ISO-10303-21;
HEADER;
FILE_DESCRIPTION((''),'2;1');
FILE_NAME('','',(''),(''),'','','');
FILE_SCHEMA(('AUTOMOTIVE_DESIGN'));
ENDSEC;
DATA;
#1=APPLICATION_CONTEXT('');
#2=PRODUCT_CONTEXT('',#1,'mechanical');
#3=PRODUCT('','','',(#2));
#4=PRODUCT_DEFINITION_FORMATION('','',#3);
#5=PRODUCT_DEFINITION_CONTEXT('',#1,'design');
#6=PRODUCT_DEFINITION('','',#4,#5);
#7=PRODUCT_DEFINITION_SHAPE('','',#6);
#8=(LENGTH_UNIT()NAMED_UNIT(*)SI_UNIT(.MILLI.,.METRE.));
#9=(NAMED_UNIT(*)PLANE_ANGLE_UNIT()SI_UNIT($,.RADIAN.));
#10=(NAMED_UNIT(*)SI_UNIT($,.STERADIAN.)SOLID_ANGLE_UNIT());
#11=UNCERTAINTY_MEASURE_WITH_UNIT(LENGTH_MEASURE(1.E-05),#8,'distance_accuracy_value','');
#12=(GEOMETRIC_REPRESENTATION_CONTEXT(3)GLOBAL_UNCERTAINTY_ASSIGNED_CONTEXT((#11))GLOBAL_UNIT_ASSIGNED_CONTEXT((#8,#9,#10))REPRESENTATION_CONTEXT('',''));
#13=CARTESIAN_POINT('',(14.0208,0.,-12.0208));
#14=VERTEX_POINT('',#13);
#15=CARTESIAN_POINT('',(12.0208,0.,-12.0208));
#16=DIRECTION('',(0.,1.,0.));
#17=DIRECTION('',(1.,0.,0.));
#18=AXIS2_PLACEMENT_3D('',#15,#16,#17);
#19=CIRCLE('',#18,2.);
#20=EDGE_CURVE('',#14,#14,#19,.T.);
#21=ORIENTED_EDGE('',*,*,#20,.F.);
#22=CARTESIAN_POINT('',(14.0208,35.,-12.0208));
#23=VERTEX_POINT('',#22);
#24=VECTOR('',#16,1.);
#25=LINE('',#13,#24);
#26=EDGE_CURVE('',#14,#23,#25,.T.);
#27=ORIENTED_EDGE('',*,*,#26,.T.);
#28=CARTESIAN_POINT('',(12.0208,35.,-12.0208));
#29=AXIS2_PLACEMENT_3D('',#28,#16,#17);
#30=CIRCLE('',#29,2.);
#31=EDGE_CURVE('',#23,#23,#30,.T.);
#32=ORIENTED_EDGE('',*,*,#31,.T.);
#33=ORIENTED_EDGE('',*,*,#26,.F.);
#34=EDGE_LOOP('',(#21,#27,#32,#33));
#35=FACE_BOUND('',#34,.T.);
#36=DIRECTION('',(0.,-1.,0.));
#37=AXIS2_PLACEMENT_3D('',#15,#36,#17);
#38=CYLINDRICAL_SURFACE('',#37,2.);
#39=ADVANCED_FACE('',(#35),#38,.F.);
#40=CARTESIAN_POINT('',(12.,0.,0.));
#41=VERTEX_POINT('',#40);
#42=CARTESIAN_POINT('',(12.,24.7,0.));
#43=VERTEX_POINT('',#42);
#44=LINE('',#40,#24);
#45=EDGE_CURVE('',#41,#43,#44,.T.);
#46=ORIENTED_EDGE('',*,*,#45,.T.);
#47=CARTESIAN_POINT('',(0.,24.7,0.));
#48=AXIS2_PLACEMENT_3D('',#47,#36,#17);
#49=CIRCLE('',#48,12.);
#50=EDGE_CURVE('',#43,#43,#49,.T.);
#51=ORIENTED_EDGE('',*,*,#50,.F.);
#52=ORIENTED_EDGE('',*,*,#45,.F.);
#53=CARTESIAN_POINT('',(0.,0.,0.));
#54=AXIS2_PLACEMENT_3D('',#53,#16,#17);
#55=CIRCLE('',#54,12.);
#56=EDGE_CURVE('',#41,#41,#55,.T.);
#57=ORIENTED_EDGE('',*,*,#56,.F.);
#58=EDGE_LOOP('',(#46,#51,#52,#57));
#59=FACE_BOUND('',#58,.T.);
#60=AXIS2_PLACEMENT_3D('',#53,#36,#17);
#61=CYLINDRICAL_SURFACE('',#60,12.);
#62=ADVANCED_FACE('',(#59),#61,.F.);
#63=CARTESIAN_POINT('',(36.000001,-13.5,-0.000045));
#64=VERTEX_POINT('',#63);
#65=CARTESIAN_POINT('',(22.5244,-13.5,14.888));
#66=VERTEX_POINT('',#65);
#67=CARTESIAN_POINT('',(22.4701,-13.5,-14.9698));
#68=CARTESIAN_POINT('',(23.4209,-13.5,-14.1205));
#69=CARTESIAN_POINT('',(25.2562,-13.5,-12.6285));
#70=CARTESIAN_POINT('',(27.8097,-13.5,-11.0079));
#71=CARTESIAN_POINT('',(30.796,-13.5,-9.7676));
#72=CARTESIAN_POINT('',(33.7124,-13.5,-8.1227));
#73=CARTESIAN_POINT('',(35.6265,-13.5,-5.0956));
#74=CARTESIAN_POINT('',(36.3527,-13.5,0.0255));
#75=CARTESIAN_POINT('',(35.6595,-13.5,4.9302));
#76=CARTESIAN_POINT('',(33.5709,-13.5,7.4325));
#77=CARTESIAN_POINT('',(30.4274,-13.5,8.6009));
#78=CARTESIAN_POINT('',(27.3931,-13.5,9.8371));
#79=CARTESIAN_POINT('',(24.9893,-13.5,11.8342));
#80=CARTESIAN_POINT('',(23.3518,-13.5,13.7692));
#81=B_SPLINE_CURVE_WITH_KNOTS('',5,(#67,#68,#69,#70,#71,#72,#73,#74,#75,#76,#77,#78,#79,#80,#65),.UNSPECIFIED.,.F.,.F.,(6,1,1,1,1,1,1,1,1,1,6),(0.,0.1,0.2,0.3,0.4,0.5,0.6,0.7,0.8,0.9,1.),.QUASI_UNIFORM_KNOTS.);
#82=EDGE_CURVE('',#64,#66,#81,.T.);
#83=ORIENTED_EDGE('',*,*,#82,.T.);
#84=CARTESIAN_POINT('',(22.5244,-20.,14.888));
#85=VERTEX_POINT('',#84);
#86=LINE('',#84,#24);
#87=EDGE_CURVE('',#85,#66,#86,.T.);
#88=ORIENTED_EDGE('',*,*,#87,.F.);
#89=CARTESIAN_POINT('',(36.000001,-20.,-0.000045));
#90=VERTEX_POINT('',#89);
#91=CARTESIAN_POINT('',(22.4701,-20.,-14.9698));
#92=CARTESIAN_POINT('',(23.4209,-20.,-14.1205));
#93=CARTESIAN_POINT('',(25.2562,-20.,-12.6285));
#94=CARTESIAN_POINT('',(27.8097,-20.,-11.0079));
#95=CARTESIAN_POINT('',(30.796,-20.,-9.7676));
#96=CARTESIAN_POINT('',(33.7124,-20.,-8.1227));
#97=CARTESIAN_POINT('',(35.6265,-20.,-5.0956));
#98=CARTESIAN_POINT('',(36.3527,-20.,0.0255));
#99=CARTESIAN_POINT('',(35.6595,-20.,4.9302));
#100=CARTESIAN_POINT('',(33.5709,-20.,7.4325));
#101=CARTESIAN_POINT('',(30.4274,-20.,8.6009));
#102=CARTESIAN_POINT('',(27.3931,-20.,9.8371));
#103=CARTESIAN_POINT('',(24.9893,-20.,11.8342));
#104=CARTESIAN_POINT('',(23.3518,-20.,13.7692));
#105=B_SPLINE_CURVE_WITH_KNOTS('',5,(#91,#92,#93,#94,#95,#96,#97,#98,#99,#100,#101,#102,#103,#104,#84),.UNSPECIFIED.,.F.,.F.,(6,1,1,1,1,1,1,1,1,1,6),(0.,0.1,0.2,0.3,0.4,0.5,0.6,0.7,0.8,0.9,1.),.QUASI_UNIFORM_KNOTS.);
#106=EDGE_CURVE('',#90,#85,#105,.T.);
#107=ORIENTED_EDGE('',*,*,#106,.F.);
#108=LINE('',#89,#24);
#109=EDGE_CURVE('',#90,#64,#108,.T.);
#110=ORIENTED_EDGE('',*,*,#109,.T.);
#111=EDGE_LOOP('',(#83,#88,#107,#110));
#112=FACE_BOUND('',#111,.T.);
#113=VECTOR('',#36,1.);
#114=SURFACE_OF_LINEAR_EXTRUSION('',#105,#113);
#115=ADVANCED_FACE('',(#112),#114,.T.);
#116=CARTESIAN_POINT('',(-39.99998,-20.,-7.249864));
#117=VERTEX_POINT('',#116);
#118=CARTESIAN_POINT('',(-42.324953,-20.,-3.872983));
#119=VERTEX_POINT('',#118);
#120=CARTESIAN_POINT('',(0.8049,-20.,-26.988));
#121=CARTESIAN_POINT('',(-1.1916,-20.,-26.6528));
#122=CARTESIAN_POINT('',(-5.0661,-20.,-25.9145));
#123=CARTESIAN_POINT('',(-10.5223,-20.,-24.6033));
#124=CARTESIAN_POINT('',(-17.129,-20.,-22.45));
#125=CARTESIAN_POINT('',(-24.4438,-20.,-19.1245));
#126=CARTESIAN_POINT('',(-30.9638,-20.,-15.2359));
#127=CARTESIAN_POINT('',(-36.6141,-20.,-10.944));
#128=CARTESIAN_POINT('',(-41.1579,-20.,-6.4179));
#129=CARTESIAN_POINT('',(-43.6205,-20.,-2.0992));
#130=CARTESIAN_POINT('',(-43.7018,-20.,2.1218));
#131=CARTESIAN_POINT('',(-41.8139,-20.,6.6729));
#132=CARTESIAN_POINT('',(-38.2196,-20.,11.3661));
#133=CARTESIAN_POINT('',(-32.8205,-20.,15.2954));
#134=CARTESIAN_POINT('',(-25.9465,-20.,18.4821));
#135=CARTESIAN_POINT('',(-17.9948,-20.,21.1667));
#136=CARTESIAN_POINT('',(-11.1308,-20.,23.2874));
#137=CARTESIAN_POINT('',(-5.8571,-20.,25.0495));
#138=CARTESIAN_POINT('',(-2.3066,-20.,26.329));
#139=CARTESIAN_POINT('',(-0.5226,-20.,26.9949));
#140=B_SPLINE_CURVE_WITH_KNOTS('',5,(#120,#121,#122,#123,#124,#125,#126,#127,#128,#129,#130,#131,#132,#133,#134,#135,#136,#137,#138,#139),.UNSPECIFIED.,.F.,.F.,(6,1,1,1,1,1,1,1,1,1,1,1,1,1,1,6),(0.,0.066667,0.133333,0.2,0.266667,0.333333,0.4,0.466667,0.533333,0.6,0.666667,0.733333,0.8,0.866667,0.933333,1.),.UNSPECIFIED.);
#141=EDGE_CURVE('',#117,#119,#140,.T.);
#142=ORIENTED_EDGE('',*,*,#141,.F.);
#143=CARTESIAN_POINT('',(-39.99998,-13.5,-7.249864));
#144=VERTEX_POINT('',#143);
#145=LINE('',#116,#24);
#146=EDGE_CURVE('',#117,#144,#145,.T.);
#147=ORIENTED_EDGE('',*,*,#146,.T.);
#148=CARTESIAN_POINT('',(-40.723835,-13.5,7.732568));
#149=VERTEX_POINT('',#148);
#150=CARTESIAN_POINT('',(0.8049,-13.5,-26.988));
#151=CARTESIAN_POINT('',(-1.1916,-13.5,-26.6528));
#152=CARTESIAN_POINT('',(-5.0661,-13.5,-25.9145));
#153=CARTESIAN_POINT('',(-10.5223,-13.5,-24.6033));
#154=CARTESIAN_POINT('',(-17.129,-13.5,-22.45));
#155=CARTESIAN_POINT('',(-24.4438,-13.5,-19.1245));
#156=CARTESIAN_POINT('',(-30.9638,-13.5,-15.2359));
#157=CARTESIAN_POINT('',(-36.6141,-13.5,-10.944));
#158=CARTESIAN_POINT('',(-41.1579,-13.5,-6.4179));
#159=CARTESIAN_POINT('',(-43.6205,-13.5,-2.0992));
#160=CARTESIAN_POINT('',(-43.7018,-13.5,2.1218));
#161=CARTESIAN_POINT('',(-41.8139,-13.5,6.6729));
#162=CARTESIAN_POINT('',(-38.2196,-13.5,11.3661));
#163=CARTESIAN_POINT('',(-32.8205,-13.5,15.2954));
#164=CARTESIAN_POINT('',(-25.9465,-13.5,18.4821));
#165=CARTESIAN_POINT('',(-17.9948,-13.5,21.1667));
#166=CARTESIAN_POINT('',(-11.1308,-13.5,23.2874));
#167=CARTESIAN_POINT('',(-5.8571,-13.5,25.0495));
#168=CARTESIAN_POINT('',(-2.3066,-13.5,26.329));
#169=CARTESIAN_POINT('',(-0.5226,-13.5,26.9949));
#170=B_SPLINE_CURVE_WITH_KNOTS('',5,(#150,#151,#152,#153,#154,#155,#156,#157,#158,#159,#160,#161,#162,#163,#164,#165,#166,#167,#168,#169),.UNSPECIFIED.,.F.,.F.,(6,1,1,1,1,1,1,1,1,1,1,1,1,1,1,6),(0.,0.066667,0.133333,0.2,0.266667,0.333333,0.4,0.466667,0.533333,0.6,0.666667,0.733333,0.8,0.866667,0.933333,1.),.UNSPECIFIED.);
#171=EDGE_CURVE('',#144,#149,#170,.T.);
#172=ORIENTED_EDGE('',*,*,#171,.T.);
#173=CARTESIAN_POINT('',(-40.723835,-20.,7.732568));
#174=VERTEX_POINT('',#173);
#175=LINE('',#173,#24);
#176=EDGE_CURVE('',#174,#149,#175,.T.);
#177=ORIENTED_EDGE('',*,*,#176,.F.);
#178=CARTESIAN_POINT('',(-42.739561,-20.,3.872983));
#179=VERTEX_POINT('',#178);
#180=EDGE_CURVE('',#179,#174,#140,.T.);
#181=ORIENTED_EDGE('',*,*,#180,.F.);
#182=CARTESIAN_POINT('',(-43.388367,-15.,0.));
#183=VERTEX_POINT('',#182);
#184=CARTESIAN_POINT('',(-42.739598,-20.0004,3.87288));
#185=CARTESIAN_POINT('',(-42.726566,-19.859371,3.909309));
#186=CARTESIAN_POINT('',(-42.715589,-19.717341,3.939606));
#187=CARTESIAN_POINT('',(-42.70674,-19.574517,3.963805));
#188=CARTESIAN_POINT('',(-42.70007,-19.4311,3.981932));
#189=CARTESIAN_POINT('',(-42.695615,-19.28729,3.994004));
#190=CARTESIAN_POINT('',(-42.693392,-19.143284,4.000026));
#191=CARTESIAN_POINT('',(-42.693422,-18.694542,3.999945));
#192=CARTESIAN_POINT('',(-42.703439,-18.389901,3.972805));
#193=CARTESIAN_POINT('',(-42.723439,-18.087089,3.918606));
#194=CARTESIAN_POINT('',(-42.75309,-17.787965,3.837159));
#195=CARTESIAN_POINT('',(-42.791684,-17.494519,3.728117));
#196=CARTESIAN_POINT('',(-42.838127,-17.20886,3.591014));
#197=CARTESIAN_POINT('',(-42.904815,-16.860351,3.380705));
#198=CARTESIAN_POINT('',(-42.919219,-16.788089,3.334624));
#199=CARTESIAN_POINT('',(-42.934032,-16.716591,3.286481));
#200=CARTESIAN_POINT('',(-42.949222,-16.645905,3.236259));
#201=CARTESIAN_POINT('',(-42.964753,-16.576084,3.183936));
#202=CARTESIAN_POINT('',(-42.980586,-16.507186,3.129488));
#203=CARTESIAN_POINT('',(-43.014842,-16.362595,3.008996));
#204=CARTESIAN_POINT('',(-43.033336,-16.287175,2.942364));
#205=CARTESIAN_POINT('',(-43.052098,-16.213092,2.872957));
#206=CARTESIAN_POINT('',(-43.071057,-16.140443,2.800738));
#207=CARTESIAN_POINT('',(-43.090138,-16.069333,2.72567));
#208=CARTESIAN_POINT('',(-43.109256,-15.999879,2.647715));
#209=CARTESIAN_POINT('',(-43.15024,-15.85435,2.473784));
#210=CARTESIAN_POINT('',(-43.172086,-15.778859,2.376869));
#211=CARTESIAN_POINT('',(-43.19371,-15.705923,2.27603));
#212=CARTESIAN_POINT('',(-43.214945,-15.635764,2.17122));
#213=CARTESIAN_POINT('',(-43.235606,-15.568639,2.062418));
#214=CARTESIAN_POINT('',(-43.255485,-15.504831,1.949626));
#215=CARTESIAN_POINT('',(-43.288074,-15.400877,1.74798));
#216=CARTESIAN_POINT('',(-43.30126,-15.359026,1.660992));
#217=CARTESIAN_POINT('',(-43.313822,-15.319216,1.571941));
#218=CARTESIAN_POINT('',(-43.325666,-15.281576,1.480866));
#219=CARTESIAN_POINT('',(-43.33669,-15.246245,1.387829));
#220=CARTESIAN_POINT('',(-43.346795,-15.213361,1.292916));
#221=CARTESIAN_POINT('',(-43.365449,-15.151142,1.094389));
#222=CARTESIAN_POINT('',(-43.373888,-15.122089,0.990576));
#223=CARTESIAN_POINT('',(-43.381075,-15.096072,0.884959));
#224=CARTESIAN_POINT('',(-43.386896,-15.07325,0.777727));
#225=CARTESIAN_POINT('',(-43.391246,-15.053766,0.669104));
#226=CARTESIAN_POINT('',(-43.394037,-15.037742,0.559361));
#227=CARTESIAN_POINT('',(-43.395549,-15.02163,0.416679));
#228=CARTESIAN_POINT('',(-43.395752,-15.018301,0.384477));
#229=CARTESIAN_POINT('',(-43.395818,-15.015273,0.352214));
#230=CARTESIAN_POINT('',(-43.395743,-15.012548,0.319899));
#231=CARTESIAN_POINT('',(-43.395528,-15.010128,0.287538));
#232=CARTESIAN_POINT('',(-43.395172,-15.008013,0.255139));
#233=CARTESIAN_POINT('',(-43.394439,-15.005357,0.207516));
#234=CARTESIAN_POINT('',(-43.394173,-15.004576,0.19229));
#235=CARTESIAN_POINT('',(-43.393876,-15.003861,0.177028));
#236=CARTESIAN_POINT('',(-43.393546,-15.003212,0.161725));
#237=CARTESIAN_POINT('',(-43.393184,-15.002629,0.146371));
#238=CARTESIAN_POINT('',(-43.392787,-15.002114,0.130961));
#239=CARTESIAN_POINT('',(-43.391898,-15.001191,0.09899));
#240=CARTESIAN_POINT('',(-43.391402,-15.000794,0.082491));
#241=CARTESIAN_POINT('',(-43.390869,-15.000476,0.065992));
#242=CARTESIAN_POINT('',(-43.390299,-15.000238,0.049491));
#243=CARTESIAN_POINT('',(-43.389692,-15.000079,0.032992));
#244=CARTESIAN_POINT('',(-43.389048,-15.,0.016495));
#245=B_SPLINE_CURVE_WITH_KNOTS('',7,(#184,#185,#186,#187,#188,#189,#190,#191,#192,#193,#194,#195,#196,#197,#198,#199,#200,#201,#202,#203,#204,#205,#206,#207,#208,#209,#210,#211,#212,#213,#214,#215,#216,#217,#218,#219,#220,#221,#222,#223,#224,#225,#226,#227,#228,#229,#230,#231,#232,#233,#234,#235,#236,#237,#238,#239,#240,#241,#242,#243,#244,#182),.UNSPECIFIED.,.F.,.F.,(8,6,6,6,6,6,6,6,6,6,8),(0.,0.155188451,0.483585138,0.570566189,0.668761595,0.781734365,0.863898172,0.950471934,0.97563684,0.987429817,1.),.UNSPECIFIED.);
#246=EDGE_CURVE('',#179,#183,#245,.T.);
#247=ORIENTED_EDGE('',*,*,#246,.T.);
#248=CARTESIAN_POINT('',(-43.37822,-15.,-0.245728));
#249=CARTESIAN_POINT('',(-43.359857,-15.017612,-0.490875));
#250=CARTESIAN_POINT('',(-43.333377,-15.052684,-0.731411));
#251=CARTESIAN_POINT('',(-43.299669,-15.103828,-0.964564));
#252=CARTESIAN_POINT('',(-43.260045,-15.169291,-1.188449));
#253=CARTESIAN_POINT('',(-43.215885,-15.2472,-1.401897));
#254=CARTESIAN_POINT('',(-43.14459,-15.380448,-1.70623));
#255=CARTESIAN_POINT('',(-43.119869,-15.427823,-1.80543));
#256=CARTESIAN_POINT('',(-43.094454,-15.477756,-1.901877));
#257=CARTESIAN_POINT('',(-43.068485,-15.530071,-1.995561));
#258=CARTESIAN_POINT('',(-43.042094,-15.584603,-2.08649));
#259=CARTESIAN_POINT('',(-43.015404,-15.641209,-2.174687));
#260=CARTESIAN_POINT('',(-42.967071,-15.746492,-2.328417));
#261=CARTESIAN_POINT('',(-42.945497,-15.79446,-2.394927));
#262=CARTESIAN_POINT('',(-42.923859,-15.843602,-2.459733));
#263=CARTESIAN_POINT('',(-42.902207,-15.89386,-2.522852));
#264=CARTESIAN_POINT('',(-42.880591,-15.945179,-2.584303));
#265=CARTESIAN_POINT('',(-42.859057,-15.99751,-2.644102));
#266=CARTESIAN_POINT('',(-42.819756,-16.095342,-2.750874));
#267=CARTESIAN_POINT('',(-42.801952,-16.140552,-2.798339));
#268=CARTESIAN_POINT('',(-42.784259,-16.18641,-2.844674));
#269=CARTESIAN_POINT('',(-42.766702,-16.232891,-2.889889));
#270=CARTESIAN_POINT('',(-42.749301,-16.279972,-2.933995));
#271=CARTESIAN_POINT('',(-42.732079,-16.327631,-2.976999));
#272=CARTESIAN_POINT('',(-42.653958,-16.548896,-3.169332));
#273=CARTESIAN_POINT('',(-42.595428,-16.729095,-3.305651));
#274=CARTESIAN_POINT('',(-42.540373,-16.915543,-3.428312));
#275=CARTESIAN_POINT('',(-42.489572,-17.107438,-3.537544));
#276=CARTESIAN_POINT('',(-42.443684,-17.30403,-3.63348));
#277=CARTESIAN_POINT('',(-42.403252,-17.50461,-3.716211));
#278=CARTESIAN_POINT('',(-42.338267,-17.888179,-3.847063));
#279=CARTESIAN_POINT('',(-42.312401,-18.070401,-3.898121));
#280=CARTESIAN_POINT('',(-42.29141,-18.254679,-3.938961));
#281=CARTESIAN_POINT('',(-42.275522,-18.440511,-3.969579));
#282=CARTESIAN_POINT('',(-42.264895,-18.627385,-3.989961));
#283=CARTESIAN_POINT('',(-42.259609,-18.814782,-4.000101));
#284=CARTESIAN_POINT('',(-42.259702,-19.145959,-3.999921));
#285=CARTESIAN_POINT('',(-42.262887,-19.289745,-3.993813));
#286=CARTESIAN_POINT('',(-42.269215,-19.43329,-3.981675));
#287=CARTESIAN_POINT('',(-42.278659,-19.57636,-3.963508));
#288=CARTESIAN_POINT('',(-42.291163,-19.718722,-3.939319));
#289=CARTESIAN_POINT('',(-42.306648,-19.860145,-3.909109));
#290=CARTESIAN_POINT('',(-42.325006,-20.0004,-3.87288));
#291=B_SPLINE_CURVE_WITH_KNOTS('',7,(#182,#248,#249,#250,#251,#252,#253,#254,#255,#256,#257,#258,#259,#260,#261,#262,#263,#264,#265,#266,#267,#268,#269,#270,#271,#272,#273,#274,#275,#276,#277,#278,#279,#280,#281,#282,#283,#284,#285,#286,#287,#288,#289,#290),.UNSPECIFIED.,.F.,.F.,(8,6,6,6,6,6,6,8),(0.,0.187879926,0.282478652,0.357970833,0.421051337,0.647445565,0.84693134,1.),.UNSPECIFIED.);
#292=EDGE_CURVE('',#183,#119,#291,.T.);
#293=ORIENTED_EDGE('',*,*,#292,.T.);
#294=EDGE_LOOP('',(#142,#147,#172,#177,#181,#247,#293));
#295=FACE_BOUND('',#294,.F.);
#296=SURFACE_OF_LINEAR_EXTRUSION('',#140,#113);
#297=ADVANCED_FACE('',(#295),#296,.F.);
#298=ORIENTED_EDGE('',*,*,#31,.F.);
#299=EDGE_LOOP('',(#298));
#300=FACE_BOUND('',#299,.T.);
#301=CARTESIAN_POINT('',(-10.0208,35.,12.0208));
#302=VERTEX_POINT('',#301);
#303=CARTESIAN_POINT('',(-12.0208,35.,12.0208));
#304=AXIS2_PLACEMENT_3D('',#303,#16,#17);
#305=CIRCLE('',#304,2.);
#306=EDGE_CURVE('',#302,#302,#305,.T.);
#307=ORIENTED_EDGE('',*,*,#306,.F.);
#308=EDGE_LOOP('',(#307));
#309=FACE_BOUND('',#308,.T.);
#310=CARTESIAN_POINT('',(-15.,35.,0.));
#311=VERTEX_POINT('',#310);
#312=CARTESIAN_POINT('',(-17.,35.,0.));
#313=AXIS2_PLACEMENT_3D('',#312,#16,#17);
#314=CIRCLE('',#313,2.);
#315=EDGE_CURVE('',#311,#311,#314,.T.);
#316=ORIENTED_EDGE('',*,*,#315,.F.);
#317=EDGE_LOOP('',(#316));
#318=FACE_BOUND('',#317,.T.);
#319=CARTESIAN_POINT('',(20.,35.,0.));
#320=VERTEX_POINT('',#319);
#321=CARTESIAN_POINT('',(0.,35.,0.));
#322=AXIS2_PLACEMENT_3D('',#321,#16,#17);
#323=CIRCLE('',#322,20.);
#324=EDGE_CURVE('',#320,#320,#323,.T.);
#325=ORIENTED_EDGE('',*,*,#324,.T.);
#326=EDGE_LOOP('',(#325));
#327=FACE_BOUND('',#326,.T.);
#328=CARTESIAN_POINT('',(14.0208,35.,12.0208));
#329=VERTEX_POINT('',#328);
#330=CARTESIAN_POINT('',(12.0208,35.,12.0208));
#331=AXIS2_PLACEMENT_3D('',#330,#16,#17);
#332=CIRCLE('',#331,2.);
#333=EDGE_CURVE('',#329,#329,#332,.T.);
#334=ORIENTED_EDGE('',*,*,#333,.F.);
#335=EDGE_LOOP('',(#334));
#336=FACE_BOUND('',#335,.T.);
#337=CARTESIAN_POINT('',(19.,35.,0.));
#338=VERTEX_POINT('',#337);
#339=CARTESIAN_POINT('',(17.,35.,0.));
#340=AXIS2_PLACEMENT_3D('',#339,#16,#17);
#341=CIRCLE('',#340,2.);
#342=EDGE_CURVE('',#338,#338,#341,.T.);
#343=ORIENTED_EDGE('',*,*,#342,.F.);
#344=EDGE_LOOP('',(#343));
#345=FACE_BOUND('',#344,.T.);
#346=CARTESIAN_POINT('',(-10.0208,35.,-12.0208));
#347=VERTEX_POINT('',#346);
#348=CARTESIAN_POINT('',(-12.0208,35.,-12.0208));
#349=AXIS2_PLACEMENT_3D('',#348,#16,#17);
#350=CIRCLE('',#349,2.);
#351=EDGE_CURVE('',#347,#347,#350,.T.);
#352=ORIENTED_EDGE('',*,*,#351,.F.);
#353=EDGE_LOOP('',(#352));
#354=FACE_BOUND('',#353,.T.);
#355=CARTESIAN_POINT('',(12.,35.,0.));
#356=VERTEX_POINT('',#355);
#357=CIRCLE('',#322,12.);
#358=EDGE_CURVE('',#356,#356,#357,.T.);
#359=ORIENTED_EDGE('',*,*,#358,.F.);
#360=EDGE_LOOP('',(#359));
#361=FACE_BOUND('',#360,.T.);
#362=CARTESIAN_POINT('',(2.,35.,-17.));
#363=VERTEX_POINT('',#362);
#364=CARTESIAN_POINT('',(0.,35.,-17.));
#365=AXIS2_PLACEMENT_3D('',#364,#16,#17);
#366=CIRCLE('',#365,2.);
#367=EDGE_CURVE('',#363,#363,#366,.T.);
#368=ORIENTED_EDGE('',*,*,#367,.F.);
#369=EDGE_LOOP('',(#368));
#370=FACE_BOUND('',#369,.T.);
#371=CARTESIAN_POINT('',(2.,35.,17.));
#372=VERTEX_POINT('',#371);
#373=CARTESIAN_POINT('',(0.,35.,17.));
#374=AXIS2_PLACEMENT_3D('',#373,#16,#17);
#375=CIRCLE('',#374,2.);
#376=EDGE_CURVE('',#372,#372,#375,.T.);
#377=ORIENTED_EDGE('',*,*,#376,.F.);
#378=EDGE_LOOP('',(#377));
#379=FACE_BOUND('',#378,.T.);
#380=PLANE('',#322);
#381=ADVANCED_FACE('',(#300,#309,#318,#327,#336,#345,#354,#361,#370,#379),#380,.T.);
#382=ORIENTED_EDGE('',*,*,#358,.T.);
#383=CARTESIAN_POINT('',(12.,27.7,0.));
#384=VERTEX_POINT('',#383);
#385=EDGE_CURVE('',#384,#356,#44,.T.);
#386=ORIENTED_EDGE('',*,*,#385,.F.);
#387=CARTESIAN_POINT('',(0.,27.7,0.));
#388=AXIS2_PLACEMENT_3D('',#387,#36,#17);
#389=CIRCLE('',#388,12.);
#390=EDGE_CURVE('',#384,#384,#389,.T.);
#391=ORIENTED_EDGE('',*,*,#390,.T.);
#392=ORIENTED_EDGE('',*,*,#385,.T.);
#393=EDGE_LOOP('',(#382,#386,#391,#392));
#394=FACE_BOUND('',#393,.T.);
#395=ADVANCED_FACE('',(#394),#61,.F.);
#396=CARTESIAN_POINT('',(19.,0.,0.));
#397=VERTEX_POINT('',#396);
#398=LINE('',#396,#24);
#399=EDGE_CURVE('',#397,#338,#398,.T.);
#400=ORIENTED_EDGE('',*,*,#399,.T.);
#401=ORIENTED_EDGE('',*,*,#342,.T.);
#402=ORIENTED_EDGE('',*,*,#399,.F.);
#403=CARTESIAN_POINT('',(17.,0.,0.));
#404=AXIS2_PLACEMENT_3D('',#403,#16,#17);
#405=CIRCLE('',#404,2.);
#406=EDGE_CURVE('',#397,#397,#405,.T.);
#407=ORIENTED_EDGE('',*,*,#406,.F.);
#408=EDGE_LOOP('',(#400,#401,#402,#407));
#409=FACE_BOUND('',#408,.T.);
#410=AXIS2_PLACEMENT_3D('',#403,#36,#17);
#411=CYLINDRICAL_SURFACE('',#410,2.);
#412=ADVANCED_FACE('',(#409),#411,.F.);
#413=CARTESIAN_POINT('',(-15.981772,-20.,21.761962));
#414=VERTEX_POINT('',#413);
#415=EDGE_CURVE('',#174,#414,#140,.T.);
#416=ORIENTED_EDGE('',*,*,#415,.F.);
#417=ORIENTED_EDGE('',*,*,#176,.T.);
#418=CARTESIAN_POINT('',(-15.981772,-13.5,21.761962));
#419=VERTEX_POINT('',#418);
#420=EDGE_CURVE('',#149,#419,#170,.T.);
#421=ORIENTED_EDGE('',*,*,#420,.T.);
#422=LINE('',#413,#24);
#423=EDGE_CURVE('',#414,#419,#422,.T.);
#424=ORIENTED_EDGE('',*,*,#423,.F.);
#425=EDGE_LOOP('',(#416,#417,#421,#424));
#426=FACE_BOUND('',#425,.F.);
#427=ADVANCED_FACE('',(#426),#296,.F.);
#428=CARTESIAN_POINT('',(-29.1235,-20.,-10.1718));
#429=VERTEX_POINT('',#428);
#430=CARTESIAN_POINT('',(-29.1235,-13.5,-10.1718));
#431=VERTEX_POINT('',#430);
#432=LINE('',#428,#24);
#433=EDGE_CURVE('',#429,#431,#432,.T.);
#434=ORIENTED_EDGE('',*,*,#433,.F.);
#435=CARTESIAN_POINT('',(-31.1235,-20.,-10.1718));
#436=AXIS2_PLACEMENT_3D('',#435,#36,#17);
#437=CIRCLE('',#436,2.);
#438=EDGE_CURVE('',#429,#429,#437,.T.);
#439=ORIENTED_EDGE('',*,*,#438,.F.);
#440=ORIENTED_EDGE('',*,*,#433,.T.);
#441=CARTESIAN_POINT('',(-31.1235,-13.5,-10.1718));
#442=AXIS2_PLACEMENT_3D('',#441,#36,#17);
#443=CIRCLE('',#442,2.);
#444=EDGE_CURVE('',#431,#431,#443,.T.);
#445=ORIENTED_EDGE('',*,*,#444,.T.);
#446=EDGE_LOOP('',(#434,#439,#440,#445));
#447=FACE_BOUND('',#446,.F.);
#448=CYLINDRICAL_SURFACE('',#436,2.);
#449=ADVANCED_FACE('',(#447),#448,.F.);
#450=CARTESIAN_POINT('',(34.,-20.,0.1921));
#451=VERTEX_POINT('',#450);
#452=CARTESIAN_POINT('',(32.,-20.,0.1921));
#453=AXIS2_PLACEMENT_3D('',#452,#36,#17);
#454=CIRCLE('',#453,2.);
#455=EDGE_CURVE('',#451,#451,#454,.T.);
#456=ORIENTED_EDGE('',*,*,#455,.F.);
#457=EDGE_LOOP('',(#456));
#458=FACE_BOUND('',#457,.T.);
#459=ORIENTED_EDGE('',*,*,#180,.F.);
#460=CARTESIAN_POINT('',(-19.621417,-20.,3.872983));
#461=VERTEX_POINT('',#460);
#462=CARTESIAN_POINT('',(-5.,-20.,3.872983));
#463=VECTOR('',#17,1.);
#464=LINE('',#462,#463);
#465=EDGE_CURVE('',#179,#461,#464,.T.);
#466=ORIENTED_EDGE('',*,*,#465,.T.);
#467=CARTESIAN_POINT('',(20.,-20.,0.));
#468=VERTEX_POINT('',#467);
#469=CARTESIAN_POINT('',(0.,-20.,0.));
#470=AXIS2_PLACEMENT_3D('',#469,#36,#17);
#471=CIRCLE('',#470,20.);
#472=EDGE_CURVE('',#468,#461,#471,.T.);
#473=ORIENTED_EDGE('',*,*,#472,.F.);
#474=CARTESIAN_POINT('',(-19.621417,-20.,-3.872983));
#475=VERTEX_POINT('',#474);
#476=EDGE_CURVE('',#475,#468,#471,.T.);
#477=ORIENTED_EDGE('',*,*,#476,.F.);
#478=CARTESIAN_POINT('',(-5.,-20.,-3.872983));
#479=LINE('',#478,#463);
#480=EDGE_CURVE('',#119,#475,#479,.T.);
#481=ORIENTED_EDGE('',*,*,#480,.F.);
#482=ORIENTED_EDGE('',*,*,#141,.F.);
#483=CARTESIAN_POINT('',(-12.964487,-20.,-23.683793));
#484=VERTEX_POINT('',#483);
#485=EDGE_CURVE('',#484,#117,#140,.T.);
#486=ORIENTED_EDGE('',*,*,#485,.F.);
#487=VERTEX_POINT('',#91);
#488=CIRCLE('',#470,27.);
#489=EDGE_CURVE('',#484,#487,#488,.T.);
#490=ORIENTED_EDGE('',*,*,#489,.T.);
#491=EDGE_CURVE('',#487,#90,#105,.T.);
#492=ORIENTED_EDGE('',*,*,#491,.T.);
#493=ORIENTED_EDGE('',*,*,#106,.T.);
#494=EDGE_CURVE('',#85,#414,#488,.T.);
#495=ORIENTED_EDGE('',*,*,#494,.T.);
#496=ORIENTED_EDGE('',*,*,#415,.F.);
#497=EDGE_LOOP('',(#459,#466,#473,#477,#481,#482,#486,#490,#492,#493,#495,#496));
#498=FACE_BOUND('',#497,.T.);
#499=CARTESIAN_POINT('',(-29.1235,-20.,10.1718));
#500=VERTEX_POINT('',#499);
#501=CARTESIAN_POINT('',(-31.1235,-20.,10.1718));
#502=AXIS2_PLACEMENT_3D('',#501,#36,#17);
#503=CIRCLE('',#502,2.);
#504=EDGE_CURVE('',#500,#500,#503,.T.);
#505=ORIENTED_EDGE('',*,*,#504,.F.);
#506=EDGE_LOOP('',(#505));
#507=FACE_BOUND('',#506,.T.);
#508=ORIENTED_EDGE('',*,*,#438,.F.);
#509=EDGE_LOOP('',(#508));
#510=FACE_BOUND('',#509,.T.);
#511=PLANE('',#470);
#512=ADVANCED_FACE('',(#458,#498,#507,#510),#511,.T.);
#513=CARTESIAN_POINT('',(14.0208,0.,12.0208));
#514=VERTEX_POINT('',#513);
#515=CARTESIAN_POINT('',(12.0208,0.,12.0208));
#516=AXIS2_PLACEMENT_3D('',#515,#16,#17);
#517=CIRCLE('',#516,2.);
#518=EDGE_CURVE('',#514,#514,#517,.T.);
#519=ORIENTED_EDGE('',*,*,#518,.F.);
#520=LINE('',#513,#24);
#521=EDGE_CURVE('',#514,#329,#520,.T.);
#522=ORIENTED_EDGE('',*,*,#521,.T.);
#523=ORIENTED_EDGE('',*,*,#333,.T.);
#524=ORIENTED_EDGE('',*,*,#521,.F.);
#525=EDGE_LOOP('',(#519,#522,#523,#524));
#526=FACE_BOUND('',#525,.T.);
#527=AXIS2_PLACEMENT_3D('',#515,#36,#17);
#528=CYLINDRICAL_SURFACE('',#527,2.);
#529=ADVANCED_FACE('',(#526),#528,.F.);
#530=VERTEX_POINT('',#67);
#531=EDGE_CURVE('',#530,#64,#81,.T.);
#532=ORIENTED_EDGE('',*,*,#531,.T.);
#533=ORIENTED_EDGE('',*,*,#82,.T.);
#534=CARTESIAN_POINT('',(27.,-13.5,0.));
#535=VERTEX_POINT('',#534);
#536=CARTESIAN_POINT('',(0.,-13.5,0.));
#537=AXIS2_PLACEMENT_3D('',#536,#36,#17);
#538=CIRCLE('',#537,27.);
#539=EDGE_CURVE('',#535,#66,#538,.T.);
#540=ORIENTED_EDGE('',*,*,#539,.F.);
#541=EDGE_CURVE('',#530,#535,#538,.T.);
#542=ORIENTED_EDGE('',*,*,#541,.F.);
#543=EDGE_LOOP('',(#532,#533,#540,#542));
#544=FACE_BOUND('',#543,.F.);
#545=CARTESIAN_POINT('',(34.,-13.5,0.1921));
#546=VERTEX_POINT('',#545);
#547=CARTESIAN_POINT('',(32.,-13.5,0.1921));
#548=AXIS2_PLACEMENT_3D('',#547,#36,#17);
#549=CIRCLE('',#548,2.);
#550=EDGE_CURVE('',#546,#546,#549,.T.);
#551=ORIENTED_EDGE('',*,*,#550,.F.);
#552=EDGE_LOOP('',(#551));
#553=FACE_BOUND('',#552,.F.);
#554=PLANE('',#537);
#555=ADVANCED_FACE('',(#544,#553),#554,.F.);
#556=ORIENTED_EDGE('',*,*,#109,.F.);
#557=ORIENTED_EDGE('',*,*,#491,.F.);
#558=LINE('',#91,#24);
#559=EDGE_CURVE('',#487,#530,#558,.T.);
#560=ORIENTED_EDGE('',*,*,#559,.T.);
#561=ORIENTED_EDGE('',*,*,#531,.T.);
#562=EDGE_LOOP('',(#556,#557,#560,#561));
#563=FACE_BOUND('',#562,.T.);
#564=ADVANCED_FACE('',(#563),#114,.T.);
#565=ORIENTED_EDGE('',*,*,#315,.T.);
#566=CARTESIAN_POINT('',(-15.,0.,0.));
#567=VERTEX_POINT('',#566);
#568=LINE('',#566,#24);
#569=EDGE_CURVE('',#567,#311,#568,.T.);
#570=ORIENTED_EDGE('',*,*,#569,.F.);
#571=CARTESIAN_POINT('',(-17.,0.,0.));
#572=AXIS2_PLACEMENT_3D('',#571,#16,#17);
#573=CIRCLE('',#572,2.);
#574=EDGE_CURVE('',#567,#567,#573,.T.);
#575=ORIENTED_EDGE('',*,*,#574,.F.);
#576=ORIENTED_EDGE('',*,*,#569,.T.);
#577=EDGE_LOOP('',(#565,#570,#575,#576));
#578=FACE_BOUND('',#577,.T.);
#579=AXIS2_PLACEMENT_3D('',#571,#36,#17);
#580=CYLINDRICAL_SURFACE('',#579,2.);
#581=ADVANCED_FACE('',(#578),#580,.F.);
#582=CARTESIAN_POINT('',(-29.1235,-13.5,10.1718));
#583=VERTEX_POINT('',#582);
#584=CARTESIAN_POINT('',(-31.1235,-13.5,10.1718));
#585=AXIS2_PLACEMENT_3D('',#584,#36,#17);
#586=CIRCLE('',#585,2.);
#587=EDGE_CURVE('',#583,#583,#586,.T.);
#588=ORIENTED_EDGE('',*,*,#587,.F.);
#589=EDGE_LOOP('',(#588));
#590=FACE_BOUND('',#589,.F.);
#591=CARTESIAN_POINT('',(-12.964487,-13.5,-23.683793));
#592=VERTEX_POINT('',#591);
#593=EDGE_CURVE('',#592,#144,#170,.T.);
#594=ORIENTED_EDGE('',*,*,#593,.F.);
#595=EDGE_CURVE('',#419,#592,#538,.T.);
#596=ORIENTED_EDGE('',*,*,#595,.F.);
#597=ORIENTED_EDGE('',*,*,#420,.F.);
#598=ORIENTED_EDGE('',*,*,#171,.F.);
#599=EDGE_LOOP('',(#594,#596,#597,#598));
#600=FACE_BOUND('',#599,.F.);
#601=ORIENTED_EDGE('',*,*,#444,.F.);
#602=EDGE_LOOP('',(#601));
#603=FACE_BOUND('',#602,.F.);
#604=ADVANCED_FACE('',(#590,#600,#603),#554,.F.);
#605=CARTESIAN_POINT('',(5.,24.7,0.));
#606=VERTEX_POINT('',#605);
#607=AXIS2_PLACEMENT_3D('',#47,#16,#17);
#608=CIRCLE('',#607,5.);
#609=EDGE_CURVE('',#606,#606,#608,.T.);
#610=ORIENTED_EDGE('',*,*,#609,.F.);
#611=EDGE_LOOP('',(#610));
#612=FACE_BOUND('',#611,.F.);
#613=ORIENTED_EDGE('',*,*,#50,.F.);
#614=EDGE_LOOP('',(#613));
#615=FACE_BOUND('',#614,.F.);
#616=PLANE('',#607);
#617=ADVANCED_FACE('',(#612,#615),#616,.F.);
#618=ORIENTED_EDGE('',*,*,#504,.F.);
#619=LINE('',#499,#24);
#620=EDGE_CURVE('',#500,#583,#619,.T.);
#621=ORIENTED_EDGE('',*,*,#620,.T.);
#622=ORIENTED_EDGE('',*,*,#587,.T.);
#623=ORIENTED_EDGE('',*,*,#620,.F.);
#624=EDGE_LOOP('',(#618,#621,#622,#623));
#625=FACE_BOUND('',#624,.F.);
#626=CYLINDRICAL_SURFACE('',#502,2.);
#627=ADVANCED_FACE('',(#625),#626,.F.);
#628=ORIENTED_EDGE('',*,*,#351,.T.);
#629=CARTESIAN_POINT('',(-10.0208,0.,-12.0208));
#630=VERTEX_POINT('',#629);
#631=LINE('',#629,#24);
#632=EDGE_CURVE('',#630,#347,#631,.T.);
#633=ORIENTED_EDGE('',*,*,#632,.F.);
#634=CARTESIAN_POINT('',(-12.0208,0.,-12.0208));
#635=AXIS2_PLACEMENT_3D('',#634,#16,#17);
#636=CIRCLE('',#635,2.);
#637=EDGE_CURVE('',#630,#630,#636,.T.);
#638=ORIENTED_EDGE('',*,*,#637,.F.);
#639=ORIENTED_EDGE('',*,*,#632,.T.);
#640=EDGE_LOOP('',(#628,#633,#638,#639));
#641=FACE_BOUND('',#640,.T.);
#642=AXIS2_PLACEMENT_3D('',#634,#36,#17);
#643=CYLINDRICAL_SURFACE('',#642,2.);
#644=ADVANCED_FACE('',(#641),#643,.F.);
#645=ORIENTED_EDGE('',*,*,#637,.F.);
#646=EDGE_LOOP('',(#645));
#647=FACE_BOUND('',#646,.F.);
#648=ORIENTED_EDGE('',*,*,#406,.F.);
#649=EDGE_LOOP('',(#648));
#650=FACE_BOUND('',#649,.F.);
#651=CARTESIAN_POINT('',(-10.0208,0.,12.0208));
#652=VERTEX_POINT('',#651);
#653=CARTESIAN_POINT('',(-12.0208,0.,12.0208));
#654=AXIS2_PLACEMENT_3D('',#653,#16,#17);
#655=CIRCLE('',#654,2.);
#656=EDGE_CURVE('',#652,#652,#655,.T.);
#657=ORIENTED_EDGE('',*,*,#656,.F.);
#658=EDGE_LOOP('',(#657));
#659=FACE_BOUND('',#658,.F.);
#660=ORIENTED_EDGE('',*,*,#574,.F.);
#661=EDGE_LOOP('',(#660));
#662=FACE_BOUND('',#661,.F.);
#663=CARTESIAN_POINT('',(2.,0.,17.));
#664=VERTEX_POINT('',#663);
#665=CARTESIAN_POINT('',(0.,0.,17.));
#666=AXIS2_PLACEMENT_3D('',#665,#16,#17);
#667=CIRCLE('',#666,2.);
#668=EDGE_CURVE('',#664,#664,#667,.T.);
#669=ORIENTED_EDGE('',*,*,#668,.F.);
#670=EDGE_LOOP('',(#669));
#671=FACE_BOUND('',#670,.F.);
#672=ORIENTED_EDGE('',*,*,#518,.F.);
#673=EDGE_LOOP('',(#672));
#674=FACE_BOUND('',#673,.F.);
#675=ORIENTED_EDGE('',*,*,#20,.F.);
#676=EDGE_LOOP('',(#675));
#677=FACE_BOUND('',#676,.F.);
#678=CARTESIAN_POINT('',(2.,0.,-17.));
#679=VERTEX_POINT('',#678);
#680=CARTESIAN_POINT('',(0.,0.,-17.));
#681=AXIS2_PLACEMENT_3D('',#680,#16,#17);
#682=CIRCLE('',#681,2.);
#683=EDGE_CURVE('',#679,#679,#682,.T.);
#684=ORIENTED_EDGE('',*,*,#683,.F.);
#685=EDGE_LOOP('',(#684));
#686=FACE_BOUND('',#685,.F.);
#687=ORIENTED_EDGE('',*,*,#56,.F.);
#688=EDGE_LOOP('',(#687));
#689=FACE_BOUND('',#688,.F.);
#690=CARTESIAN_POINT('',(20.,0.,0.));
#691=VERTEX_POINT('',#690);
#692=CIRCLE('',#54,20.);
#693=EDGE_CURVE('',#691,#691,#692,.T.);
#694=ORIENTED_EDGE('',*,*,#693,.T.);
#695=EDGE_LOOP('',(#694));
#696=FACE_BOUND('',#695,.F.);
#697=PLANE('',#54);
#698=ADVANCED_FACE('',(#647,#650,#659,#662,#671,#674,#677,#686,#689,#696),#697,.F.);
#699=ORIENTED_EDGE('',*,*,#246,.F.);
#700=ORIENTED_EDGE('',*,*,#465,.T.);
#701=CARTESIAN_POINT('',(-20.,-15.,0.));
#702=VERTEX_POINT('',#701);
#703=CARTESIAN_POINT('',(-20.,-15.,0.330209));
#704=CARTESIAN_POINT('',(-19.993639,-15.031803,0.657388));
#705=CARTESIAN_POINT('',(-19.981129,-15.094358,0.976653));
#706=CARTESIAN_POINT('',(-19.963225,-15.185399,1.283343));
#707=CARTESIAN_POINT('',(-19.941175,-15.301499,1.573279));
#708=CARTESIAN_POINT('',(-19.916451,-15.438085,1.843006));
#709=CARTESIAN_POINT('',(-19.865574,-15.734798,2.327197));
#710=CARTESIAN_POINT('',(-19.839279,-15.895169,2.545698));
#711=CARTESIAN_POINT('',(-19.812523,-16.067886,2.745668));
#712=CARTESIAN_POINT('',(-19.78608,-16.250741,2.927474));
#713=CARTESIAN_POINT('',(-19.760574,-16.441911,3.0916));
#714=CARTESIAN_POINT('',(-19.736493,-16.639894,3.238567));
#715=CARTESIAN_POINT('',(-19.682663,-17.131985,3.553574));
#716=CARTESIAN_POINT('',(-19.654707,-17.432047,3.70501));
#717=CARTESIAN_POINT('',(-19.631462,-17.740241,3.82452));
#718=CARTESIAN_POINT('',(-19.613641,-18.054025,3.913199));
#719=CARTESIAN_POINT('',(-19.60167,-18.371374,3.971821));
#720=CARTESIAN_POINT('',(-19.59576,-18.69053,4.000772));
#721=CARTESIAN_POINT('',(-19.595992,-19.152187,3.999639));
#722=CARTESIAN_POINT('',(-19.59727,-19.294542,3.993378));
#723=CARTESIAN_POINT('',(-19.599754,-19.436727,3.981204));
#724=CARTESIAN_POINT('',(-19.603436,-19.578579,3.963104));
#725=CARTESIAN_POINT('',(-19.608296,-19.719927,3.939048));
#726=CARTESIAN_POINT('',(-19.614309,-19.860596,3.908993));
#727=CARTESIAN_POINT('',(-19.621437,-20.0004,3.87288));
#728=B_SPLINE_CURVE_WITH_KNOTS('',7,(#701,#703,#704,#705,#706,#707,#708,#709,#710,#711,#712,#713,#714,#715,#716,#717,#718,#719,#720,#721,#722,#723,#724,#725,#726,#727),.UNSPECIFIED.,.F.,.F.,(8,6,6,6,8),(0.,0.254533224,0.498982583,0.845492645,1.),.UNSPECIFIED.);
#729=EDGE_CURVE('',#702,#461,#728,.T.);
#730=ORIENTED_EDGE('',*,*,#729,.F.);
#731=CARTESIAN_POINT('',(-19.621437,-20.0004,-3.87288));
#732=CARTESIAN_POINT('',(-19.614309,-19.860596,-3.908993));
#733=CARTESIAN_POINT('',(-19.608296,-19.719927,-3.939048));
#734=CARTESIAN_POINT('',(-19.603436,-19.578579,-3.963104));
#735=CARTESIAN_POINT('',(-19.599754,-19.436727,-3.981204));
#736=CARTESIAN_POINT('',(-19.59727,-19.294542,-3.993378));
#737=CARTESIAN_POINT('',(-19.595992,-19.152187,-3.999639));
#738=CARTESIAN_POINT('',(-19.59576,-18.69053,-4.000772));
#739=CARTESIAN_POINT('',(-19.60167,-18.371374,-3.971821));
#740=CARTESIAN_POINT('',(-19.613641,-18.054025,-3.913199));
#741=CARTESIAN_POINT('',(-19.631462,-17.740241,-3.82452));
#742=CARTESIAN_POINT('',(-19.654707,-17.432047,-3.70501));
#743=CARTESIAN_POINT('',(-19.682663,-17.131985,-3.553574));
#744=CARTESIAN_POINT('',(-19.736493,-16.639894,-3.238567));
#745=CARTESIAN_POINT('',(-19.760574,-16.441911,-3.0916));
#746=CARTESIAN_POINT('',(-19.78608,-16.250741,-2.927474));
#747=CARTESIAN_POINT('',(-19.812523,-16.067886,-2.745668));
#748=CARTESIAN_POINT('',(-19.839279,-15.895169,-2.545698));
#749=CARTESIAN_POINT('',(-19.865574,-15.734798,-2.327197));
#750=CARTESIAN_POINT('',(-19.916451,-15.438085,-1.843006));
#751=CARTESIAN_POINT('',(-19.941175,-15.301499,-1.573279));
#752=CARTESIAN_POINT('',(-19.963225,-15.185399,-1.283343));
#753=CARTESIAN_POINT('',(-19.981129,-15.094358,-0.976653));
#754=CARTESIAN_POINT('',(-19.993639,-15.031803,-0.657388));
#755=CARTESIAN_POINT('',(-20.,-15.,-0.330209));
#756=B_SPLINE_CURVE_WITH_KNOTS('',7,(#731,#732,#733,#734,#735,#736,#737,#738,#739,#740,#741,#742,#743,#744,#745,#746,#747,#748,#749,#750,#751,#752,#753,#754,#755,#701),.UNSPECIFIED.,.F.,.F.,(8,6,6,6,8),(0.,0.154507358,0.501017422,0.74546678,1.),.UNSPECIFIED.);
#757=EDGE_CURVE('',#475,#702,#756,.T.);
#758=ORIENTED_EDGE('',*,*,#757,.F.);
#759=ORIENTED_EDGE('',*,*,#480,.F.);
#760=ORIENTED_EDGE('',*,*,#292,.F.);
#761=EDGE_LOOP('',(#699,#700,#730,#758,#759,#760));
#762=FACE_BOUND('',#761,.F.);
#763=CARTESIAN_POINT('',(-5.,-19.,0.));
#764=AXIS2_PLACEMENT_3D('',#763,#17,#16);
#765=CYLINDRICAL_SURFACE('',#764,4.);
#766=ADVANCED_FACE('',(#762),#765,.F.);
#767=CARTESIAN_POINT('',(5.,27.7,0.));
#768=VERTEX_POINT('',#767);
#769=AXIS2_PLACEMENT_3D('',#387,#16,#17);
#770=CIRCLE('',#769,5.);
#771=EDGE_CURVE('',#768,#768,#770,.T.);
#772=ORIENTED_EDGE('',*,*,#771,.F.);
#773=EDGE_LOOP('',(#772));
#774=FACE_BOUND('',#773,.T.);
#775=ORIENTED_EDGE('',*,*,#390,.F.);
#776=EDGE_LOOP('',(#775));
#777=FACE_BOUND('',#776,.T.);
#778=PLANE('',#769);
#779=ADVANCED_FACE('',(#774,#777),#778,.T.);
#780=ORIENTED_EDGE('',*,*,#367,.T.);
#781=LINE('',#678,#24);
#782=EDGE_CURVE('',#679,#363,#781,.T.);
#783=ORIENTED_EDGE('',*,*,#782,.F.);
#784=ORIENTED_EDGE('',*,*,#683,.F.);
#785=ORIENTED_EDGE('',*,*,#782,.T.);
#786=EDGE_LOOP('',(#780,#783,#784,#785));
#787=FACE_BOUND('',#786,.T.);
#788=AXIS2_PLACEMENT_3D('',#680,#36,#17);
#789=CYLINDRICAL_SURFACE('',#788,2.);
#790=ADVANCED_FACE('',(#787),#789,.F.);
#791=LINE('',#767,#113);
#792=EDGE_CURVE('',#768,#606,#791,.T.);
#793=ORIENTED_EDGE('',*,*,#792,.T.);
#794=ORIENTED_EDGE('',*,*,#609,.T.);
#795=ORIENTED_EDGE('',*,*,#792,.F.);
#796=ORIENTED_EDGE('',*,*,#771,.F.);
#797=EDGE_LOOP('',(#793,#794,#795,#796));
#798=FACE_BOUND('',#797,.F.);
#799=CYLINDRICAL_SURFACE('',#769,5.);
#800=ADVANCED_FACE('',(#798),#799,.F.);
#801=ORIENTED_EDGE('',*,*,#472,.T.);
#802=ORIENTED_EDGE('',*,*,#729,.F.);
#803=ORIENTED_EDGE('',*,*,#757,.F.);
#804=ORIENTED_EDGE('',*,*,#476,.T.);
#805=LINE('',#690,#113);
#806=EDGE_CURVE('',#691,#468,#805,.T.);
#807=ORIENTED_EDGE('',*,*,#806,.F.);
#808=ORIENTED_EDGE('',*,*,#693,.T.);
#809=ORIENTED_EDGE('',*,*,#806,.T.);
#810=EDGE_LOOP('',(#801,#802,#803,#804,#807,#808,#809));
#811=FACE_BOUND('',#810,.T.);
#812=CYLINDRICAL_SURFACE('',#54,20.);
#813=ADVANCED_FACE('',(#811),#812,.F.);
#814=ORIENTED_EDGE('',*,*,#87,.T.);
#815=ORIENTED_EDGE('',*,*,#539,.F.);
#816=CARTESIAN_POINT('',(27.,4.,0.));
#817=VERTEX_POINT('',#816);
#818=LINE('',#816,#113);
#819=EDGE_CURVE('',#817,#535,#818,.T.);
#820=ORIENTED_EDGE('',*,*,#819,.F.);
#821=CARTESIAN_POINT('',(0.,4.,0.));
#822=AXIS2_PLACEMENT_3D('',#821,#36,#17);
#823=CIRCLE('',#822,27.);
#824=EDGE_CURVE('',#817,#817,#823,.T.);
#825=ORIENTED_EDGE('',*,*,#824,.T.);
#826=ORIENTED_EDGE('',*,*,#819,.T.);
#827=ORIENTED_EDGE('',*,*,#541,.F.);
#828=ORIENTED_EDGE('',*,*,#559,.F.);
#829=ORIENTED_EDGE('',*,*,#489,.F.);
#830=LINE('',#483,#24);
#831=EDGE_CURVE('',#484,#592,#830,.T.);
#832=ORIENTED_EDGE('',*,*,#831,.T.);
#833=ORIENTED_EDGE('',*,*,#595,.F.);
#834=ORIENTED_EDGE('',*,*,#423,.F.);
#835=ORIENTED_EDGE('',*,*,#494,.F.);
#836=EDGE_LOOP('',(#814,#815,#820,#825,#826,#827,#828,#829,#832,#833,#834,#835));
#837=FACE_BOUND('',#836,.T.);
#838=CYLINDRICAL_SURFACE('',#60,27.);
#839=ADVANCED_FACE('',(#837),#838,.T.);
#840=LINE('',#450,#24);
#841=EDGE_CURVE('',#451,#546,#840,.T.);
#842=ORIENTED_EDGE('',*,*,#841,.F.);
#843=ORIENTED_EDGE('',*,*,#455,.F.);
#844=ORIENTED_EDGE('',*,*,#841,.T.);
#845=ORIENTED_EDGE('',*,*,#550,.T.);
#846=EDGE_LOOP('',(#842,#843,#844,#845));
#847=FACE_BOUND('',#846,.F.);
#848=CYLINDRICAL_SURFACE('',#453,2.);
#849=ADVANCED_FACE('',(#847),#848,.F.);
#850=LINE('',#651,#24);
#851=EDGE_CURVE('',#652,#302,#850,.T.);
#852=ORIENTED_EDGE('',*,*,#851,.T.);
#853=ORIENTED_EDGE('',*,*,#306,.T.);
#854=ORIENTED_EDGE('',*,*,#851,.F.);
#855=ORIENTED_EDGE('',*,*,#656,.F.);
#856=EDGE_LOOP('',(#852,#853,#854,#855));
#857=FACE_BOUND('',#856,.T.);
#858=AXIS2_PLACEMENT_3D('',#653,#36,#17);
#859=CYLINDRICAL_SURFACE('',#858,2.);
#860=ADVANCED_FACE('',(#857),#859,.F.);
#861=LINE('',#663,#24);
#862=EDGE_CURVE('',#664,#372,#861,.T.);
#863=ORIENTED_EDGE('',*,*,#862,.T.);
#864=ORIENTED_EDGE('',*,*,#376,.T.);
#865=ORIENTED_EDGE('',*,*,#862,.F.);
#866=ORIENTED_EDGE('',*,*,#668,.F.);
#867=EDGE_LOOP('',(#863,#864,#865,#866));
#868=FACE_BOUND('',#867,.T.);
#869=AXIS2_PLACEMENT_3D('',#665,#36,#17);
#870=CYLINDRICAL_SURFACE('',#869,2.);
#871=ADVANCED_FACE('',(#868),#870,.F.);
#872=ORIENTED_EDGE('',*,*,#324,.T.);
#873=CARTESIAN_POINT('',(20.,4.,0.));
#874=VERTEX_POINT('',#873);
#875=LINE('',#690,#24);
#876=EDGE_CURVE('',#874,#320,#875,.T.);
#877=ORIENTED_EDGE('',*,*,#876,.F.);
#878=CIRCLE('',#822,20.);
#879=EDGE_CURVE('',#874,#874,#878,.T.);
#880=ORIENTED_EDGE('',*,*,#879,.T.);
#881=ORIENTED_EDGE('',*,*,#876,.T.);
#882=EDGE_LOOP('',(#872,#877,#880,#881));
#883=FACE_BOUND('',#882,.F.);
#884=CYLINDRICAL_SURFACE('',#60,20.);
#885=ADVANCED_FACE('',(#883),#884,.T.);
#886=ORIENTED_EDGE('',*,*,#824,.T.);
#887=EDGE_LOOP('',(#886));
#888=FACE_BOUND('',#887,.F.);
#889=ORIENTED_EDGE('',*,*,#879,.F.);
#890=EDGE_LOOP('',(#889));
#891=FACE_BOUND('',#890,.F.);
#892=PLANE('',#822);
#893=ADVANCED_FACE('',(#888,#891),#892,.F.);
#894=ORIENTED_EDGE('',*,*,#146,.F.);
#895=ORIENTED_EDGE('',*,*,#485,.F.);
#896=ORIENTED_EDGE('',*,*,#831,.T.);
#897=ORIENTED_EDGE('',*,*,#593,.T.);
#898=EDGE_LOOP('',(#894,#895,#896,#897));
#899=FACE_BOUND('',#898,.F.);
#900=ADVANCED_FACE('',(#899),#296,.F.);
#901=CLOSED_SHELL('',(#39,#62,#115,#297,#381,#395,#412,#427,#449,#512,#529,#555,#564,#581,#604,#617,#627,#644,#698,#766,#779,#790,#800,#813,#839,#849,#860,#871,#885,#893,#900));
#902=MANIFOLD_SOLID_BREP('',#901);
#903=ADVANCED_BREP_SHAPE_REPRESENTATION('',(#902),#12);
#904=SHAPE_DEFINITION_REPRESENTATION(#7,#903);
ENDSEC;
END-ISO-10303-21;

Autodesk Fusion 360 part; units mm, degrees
sketch "Boceto5" plane through (0, 0, 0) normal (0, 1, 0) x (1, 0, 0)
  circle A0 centre (0, 0) radius 12
  circle A1 centre (0, 0) radius 20
  line L0 (0, -18) -> (0, 20) construction
  line L1 (0, 20) -> (22, 0) construction
  line L2 (22, 0) -> (-21, 0) construction
  circle A2 centre (0, -17) radius 2
  circle A3 centre (12.0208, -12.0208) radius 2
  circle A4 centre (17, 0) radius 2
  circle A5 centre (12.0208, 12.0208) radius 2
  circle A6 centre (0, 17) radius 2
  circle A7 centre (-12.0208, 12.0208) radius 2
  circle A8 centre (-17, 0) radius 2
  circle A9 centre (-12.0208, -12.0208) radius 2
  dimension "d1" = 24
  dimension "d2" = 40
  dimension "d3" = 8
  dimension "d4" = 4
  dimension "d5" = 17
  dimension "d7" = 360
extrude "Extruir1" add sketch "Boceto5" along normal blind 35
ref_plane "PlanoDeObra1" through (0, 27.7, 0) normal (0, 1, 0) x (1, 0, 0)
sketch "Boceto6" plane through (0, 27.7, 0) normal (0, 1, 0) x (1, 0, 0)
  circle A0 centre (0, 0) radius 13.2354
  circle A1 centre (0, 0) radius 5
  dimension "d11" = 10
extrude "Extruir2" add sketch "Boceto6" against normal blind 3
sketch "Boceto7" plane through (0, 0, 0) normal (0, -1, 0) x (1, 0, 0)
  circle A0 centre (-12.0208, 12.0208) radius 2
  circle A1 centre (12.0208, 12.0208) radius 2
  circle A2 centre (-12.0208, -12.0208) radius 2
  circle A3 centre (0, 0) radius 12
  circle A4 centre (17, 0) radius 2
  circle A5 centre (12.0208, -12.0208) radius 2
  circle A6 centre (-17, 0) radius 2
  circle A7 centre (0, -17) radius 2
  circle A8 centre (0, 17) radius 2
  circle A9 centre (0, 0) radius 20
  circle A10 centre (0, 0) radius 27
  circle A11 centre (0, 0) radius 12
extrude "Extruir3" add sketch "Boceto7" along normal blind 20 and the other way blind 4 contours A10
sketch "Boceto8" plane through (0, -20, 0) normal (0, -1, 0) x (1, 0, 0)
  circle A0 centre (0, 0) radius 20
  circle A1 centre (0, 0) radius 27
  spline S0 degree 5 poles (0.8049, -26.988) (-1.1916, -26.6528) (-5.0661, -25.9145) (-10.5223, -24.6033) (-17.129, -22.45) (-24.4438, -19.1245) (-30.9638, -15.2359) (-36.6141, -10.944) (-41.1579, -6.4179) (-43.6205, -2.0992) (-43.7018, 2.1218) (-41.8139, 6.6729) (-38.2196, 11.3661) (-32.8205, 15.2954) (-25.9465, 18.4821) (-17.9948, 21.1667) (-11.1308, 23.2874) (-5.8571, 25.0495) (-2.3066, 26.329) (-0.5226, 26.9949) knots 0 0 0 0 0 0 0.066667 0.133333 0.2 0.266667 0.333333 0.4 0.466667 0.533333 0.6 0.666667 0.733333 0.8 0.866667 0.933333 1 1 1 1 1 1
  spline S1 degree 5 poles (22.4701, -14.9698) (23.4209, -14.1205) (25.2562, -12.6285) (27.8097, -11.0079) (30.796, -9.7676) (33.7124, -8.1227) (35.6265, -5.0956) (36.3527, 0.0255) (35.6595, 4.9302) (33.5709, 7.4325) (30.4274, 8.6009) (27.3931, 9.8371) (24.9893, 11.8342) (23.3518, 13.7692) (22.5244, 14.888) knots 0 0 0 0 0 0 0.1 0.2 0.3 0.4 0.5 0.6 0.7 0.8 0.9 1 1 1 1 1 1
  line L0 (36, -3.7373) -> (36, 3.7373)
  line L1 (18.3284, -18.669) -> (26.6118, -11.2706)
  line L2 (26.1391, 10.0004) -> (18.9097, 19.7756)
  circle A2 centre (32, 0.1921) radius 2
  circle A3 centre (-31.1235, -10.1718) radius 2
  line L3 (-65, 0) -> (0, 0) construction
  line L4 (0, 0) -> (0, -32.1871) construction
  circle A4 centre (-31.1235, 10.1718) radius 2
  line L5 (-46.074, -0.0716) -> (-35.3734, 15.5371)
  circle A5 centre (0, 0) radius 27 construction
  line L6 (15.8053, -29.5065) -> (-14.1954, -24.4695)
  line L7 (-14.284, 21.8582) -> (13.2387, 32.1317)
  line L8 (-33.4619, -14.8868) -> (-46.5381, 0.3871)
  point P0 (-40, -7.2498)
  point P1 (-40.7237, 7.7327)
  point P2 (36, 0)
  dimension "d18" = 4
  dimension "d19" = 4
  dimension "d20" = 36
  dimension "d21" = 32
  dimension "d22" = 15
  dimension "d23" = 40
  dimension "d24" = 30
  dimension "d25" = 105
extrude "Extruir4" add sketch "Boceto8" against normal blind 6.5 contours A1 S1 | A1 S0 picked at (-33.9376, 4.4367)
ref_plane "PlanoDeObra2" through (-5, 0, 0) normal (1, 0, 0) x (0, 1, 0)
sketch "Boceto9" plane through (0, 0, 0) normal (0, -1, 0) x (1, 0, 0)
sketch "Boceto10" plane through (-5, 0, 0) normal (1, 0, 0) x (0, 1, 0)
  circle A0 centre (-19, 0) radius 4
  line L0 (-20, -23.6837) -> (-20, 21.762)
  dimension "d31" = 8
  dimension "d32" = 1
extrude "Extruir5" cut sketch "Boceto10" against normal blind 48
sketch "Boceto11" plane through (0, 4, 0) normal (0, 1, 0) x (-1, 0, 0)
  circle A0 centre (0, 0) radius 20
  circle A1 centre (0, 0) radius 27
